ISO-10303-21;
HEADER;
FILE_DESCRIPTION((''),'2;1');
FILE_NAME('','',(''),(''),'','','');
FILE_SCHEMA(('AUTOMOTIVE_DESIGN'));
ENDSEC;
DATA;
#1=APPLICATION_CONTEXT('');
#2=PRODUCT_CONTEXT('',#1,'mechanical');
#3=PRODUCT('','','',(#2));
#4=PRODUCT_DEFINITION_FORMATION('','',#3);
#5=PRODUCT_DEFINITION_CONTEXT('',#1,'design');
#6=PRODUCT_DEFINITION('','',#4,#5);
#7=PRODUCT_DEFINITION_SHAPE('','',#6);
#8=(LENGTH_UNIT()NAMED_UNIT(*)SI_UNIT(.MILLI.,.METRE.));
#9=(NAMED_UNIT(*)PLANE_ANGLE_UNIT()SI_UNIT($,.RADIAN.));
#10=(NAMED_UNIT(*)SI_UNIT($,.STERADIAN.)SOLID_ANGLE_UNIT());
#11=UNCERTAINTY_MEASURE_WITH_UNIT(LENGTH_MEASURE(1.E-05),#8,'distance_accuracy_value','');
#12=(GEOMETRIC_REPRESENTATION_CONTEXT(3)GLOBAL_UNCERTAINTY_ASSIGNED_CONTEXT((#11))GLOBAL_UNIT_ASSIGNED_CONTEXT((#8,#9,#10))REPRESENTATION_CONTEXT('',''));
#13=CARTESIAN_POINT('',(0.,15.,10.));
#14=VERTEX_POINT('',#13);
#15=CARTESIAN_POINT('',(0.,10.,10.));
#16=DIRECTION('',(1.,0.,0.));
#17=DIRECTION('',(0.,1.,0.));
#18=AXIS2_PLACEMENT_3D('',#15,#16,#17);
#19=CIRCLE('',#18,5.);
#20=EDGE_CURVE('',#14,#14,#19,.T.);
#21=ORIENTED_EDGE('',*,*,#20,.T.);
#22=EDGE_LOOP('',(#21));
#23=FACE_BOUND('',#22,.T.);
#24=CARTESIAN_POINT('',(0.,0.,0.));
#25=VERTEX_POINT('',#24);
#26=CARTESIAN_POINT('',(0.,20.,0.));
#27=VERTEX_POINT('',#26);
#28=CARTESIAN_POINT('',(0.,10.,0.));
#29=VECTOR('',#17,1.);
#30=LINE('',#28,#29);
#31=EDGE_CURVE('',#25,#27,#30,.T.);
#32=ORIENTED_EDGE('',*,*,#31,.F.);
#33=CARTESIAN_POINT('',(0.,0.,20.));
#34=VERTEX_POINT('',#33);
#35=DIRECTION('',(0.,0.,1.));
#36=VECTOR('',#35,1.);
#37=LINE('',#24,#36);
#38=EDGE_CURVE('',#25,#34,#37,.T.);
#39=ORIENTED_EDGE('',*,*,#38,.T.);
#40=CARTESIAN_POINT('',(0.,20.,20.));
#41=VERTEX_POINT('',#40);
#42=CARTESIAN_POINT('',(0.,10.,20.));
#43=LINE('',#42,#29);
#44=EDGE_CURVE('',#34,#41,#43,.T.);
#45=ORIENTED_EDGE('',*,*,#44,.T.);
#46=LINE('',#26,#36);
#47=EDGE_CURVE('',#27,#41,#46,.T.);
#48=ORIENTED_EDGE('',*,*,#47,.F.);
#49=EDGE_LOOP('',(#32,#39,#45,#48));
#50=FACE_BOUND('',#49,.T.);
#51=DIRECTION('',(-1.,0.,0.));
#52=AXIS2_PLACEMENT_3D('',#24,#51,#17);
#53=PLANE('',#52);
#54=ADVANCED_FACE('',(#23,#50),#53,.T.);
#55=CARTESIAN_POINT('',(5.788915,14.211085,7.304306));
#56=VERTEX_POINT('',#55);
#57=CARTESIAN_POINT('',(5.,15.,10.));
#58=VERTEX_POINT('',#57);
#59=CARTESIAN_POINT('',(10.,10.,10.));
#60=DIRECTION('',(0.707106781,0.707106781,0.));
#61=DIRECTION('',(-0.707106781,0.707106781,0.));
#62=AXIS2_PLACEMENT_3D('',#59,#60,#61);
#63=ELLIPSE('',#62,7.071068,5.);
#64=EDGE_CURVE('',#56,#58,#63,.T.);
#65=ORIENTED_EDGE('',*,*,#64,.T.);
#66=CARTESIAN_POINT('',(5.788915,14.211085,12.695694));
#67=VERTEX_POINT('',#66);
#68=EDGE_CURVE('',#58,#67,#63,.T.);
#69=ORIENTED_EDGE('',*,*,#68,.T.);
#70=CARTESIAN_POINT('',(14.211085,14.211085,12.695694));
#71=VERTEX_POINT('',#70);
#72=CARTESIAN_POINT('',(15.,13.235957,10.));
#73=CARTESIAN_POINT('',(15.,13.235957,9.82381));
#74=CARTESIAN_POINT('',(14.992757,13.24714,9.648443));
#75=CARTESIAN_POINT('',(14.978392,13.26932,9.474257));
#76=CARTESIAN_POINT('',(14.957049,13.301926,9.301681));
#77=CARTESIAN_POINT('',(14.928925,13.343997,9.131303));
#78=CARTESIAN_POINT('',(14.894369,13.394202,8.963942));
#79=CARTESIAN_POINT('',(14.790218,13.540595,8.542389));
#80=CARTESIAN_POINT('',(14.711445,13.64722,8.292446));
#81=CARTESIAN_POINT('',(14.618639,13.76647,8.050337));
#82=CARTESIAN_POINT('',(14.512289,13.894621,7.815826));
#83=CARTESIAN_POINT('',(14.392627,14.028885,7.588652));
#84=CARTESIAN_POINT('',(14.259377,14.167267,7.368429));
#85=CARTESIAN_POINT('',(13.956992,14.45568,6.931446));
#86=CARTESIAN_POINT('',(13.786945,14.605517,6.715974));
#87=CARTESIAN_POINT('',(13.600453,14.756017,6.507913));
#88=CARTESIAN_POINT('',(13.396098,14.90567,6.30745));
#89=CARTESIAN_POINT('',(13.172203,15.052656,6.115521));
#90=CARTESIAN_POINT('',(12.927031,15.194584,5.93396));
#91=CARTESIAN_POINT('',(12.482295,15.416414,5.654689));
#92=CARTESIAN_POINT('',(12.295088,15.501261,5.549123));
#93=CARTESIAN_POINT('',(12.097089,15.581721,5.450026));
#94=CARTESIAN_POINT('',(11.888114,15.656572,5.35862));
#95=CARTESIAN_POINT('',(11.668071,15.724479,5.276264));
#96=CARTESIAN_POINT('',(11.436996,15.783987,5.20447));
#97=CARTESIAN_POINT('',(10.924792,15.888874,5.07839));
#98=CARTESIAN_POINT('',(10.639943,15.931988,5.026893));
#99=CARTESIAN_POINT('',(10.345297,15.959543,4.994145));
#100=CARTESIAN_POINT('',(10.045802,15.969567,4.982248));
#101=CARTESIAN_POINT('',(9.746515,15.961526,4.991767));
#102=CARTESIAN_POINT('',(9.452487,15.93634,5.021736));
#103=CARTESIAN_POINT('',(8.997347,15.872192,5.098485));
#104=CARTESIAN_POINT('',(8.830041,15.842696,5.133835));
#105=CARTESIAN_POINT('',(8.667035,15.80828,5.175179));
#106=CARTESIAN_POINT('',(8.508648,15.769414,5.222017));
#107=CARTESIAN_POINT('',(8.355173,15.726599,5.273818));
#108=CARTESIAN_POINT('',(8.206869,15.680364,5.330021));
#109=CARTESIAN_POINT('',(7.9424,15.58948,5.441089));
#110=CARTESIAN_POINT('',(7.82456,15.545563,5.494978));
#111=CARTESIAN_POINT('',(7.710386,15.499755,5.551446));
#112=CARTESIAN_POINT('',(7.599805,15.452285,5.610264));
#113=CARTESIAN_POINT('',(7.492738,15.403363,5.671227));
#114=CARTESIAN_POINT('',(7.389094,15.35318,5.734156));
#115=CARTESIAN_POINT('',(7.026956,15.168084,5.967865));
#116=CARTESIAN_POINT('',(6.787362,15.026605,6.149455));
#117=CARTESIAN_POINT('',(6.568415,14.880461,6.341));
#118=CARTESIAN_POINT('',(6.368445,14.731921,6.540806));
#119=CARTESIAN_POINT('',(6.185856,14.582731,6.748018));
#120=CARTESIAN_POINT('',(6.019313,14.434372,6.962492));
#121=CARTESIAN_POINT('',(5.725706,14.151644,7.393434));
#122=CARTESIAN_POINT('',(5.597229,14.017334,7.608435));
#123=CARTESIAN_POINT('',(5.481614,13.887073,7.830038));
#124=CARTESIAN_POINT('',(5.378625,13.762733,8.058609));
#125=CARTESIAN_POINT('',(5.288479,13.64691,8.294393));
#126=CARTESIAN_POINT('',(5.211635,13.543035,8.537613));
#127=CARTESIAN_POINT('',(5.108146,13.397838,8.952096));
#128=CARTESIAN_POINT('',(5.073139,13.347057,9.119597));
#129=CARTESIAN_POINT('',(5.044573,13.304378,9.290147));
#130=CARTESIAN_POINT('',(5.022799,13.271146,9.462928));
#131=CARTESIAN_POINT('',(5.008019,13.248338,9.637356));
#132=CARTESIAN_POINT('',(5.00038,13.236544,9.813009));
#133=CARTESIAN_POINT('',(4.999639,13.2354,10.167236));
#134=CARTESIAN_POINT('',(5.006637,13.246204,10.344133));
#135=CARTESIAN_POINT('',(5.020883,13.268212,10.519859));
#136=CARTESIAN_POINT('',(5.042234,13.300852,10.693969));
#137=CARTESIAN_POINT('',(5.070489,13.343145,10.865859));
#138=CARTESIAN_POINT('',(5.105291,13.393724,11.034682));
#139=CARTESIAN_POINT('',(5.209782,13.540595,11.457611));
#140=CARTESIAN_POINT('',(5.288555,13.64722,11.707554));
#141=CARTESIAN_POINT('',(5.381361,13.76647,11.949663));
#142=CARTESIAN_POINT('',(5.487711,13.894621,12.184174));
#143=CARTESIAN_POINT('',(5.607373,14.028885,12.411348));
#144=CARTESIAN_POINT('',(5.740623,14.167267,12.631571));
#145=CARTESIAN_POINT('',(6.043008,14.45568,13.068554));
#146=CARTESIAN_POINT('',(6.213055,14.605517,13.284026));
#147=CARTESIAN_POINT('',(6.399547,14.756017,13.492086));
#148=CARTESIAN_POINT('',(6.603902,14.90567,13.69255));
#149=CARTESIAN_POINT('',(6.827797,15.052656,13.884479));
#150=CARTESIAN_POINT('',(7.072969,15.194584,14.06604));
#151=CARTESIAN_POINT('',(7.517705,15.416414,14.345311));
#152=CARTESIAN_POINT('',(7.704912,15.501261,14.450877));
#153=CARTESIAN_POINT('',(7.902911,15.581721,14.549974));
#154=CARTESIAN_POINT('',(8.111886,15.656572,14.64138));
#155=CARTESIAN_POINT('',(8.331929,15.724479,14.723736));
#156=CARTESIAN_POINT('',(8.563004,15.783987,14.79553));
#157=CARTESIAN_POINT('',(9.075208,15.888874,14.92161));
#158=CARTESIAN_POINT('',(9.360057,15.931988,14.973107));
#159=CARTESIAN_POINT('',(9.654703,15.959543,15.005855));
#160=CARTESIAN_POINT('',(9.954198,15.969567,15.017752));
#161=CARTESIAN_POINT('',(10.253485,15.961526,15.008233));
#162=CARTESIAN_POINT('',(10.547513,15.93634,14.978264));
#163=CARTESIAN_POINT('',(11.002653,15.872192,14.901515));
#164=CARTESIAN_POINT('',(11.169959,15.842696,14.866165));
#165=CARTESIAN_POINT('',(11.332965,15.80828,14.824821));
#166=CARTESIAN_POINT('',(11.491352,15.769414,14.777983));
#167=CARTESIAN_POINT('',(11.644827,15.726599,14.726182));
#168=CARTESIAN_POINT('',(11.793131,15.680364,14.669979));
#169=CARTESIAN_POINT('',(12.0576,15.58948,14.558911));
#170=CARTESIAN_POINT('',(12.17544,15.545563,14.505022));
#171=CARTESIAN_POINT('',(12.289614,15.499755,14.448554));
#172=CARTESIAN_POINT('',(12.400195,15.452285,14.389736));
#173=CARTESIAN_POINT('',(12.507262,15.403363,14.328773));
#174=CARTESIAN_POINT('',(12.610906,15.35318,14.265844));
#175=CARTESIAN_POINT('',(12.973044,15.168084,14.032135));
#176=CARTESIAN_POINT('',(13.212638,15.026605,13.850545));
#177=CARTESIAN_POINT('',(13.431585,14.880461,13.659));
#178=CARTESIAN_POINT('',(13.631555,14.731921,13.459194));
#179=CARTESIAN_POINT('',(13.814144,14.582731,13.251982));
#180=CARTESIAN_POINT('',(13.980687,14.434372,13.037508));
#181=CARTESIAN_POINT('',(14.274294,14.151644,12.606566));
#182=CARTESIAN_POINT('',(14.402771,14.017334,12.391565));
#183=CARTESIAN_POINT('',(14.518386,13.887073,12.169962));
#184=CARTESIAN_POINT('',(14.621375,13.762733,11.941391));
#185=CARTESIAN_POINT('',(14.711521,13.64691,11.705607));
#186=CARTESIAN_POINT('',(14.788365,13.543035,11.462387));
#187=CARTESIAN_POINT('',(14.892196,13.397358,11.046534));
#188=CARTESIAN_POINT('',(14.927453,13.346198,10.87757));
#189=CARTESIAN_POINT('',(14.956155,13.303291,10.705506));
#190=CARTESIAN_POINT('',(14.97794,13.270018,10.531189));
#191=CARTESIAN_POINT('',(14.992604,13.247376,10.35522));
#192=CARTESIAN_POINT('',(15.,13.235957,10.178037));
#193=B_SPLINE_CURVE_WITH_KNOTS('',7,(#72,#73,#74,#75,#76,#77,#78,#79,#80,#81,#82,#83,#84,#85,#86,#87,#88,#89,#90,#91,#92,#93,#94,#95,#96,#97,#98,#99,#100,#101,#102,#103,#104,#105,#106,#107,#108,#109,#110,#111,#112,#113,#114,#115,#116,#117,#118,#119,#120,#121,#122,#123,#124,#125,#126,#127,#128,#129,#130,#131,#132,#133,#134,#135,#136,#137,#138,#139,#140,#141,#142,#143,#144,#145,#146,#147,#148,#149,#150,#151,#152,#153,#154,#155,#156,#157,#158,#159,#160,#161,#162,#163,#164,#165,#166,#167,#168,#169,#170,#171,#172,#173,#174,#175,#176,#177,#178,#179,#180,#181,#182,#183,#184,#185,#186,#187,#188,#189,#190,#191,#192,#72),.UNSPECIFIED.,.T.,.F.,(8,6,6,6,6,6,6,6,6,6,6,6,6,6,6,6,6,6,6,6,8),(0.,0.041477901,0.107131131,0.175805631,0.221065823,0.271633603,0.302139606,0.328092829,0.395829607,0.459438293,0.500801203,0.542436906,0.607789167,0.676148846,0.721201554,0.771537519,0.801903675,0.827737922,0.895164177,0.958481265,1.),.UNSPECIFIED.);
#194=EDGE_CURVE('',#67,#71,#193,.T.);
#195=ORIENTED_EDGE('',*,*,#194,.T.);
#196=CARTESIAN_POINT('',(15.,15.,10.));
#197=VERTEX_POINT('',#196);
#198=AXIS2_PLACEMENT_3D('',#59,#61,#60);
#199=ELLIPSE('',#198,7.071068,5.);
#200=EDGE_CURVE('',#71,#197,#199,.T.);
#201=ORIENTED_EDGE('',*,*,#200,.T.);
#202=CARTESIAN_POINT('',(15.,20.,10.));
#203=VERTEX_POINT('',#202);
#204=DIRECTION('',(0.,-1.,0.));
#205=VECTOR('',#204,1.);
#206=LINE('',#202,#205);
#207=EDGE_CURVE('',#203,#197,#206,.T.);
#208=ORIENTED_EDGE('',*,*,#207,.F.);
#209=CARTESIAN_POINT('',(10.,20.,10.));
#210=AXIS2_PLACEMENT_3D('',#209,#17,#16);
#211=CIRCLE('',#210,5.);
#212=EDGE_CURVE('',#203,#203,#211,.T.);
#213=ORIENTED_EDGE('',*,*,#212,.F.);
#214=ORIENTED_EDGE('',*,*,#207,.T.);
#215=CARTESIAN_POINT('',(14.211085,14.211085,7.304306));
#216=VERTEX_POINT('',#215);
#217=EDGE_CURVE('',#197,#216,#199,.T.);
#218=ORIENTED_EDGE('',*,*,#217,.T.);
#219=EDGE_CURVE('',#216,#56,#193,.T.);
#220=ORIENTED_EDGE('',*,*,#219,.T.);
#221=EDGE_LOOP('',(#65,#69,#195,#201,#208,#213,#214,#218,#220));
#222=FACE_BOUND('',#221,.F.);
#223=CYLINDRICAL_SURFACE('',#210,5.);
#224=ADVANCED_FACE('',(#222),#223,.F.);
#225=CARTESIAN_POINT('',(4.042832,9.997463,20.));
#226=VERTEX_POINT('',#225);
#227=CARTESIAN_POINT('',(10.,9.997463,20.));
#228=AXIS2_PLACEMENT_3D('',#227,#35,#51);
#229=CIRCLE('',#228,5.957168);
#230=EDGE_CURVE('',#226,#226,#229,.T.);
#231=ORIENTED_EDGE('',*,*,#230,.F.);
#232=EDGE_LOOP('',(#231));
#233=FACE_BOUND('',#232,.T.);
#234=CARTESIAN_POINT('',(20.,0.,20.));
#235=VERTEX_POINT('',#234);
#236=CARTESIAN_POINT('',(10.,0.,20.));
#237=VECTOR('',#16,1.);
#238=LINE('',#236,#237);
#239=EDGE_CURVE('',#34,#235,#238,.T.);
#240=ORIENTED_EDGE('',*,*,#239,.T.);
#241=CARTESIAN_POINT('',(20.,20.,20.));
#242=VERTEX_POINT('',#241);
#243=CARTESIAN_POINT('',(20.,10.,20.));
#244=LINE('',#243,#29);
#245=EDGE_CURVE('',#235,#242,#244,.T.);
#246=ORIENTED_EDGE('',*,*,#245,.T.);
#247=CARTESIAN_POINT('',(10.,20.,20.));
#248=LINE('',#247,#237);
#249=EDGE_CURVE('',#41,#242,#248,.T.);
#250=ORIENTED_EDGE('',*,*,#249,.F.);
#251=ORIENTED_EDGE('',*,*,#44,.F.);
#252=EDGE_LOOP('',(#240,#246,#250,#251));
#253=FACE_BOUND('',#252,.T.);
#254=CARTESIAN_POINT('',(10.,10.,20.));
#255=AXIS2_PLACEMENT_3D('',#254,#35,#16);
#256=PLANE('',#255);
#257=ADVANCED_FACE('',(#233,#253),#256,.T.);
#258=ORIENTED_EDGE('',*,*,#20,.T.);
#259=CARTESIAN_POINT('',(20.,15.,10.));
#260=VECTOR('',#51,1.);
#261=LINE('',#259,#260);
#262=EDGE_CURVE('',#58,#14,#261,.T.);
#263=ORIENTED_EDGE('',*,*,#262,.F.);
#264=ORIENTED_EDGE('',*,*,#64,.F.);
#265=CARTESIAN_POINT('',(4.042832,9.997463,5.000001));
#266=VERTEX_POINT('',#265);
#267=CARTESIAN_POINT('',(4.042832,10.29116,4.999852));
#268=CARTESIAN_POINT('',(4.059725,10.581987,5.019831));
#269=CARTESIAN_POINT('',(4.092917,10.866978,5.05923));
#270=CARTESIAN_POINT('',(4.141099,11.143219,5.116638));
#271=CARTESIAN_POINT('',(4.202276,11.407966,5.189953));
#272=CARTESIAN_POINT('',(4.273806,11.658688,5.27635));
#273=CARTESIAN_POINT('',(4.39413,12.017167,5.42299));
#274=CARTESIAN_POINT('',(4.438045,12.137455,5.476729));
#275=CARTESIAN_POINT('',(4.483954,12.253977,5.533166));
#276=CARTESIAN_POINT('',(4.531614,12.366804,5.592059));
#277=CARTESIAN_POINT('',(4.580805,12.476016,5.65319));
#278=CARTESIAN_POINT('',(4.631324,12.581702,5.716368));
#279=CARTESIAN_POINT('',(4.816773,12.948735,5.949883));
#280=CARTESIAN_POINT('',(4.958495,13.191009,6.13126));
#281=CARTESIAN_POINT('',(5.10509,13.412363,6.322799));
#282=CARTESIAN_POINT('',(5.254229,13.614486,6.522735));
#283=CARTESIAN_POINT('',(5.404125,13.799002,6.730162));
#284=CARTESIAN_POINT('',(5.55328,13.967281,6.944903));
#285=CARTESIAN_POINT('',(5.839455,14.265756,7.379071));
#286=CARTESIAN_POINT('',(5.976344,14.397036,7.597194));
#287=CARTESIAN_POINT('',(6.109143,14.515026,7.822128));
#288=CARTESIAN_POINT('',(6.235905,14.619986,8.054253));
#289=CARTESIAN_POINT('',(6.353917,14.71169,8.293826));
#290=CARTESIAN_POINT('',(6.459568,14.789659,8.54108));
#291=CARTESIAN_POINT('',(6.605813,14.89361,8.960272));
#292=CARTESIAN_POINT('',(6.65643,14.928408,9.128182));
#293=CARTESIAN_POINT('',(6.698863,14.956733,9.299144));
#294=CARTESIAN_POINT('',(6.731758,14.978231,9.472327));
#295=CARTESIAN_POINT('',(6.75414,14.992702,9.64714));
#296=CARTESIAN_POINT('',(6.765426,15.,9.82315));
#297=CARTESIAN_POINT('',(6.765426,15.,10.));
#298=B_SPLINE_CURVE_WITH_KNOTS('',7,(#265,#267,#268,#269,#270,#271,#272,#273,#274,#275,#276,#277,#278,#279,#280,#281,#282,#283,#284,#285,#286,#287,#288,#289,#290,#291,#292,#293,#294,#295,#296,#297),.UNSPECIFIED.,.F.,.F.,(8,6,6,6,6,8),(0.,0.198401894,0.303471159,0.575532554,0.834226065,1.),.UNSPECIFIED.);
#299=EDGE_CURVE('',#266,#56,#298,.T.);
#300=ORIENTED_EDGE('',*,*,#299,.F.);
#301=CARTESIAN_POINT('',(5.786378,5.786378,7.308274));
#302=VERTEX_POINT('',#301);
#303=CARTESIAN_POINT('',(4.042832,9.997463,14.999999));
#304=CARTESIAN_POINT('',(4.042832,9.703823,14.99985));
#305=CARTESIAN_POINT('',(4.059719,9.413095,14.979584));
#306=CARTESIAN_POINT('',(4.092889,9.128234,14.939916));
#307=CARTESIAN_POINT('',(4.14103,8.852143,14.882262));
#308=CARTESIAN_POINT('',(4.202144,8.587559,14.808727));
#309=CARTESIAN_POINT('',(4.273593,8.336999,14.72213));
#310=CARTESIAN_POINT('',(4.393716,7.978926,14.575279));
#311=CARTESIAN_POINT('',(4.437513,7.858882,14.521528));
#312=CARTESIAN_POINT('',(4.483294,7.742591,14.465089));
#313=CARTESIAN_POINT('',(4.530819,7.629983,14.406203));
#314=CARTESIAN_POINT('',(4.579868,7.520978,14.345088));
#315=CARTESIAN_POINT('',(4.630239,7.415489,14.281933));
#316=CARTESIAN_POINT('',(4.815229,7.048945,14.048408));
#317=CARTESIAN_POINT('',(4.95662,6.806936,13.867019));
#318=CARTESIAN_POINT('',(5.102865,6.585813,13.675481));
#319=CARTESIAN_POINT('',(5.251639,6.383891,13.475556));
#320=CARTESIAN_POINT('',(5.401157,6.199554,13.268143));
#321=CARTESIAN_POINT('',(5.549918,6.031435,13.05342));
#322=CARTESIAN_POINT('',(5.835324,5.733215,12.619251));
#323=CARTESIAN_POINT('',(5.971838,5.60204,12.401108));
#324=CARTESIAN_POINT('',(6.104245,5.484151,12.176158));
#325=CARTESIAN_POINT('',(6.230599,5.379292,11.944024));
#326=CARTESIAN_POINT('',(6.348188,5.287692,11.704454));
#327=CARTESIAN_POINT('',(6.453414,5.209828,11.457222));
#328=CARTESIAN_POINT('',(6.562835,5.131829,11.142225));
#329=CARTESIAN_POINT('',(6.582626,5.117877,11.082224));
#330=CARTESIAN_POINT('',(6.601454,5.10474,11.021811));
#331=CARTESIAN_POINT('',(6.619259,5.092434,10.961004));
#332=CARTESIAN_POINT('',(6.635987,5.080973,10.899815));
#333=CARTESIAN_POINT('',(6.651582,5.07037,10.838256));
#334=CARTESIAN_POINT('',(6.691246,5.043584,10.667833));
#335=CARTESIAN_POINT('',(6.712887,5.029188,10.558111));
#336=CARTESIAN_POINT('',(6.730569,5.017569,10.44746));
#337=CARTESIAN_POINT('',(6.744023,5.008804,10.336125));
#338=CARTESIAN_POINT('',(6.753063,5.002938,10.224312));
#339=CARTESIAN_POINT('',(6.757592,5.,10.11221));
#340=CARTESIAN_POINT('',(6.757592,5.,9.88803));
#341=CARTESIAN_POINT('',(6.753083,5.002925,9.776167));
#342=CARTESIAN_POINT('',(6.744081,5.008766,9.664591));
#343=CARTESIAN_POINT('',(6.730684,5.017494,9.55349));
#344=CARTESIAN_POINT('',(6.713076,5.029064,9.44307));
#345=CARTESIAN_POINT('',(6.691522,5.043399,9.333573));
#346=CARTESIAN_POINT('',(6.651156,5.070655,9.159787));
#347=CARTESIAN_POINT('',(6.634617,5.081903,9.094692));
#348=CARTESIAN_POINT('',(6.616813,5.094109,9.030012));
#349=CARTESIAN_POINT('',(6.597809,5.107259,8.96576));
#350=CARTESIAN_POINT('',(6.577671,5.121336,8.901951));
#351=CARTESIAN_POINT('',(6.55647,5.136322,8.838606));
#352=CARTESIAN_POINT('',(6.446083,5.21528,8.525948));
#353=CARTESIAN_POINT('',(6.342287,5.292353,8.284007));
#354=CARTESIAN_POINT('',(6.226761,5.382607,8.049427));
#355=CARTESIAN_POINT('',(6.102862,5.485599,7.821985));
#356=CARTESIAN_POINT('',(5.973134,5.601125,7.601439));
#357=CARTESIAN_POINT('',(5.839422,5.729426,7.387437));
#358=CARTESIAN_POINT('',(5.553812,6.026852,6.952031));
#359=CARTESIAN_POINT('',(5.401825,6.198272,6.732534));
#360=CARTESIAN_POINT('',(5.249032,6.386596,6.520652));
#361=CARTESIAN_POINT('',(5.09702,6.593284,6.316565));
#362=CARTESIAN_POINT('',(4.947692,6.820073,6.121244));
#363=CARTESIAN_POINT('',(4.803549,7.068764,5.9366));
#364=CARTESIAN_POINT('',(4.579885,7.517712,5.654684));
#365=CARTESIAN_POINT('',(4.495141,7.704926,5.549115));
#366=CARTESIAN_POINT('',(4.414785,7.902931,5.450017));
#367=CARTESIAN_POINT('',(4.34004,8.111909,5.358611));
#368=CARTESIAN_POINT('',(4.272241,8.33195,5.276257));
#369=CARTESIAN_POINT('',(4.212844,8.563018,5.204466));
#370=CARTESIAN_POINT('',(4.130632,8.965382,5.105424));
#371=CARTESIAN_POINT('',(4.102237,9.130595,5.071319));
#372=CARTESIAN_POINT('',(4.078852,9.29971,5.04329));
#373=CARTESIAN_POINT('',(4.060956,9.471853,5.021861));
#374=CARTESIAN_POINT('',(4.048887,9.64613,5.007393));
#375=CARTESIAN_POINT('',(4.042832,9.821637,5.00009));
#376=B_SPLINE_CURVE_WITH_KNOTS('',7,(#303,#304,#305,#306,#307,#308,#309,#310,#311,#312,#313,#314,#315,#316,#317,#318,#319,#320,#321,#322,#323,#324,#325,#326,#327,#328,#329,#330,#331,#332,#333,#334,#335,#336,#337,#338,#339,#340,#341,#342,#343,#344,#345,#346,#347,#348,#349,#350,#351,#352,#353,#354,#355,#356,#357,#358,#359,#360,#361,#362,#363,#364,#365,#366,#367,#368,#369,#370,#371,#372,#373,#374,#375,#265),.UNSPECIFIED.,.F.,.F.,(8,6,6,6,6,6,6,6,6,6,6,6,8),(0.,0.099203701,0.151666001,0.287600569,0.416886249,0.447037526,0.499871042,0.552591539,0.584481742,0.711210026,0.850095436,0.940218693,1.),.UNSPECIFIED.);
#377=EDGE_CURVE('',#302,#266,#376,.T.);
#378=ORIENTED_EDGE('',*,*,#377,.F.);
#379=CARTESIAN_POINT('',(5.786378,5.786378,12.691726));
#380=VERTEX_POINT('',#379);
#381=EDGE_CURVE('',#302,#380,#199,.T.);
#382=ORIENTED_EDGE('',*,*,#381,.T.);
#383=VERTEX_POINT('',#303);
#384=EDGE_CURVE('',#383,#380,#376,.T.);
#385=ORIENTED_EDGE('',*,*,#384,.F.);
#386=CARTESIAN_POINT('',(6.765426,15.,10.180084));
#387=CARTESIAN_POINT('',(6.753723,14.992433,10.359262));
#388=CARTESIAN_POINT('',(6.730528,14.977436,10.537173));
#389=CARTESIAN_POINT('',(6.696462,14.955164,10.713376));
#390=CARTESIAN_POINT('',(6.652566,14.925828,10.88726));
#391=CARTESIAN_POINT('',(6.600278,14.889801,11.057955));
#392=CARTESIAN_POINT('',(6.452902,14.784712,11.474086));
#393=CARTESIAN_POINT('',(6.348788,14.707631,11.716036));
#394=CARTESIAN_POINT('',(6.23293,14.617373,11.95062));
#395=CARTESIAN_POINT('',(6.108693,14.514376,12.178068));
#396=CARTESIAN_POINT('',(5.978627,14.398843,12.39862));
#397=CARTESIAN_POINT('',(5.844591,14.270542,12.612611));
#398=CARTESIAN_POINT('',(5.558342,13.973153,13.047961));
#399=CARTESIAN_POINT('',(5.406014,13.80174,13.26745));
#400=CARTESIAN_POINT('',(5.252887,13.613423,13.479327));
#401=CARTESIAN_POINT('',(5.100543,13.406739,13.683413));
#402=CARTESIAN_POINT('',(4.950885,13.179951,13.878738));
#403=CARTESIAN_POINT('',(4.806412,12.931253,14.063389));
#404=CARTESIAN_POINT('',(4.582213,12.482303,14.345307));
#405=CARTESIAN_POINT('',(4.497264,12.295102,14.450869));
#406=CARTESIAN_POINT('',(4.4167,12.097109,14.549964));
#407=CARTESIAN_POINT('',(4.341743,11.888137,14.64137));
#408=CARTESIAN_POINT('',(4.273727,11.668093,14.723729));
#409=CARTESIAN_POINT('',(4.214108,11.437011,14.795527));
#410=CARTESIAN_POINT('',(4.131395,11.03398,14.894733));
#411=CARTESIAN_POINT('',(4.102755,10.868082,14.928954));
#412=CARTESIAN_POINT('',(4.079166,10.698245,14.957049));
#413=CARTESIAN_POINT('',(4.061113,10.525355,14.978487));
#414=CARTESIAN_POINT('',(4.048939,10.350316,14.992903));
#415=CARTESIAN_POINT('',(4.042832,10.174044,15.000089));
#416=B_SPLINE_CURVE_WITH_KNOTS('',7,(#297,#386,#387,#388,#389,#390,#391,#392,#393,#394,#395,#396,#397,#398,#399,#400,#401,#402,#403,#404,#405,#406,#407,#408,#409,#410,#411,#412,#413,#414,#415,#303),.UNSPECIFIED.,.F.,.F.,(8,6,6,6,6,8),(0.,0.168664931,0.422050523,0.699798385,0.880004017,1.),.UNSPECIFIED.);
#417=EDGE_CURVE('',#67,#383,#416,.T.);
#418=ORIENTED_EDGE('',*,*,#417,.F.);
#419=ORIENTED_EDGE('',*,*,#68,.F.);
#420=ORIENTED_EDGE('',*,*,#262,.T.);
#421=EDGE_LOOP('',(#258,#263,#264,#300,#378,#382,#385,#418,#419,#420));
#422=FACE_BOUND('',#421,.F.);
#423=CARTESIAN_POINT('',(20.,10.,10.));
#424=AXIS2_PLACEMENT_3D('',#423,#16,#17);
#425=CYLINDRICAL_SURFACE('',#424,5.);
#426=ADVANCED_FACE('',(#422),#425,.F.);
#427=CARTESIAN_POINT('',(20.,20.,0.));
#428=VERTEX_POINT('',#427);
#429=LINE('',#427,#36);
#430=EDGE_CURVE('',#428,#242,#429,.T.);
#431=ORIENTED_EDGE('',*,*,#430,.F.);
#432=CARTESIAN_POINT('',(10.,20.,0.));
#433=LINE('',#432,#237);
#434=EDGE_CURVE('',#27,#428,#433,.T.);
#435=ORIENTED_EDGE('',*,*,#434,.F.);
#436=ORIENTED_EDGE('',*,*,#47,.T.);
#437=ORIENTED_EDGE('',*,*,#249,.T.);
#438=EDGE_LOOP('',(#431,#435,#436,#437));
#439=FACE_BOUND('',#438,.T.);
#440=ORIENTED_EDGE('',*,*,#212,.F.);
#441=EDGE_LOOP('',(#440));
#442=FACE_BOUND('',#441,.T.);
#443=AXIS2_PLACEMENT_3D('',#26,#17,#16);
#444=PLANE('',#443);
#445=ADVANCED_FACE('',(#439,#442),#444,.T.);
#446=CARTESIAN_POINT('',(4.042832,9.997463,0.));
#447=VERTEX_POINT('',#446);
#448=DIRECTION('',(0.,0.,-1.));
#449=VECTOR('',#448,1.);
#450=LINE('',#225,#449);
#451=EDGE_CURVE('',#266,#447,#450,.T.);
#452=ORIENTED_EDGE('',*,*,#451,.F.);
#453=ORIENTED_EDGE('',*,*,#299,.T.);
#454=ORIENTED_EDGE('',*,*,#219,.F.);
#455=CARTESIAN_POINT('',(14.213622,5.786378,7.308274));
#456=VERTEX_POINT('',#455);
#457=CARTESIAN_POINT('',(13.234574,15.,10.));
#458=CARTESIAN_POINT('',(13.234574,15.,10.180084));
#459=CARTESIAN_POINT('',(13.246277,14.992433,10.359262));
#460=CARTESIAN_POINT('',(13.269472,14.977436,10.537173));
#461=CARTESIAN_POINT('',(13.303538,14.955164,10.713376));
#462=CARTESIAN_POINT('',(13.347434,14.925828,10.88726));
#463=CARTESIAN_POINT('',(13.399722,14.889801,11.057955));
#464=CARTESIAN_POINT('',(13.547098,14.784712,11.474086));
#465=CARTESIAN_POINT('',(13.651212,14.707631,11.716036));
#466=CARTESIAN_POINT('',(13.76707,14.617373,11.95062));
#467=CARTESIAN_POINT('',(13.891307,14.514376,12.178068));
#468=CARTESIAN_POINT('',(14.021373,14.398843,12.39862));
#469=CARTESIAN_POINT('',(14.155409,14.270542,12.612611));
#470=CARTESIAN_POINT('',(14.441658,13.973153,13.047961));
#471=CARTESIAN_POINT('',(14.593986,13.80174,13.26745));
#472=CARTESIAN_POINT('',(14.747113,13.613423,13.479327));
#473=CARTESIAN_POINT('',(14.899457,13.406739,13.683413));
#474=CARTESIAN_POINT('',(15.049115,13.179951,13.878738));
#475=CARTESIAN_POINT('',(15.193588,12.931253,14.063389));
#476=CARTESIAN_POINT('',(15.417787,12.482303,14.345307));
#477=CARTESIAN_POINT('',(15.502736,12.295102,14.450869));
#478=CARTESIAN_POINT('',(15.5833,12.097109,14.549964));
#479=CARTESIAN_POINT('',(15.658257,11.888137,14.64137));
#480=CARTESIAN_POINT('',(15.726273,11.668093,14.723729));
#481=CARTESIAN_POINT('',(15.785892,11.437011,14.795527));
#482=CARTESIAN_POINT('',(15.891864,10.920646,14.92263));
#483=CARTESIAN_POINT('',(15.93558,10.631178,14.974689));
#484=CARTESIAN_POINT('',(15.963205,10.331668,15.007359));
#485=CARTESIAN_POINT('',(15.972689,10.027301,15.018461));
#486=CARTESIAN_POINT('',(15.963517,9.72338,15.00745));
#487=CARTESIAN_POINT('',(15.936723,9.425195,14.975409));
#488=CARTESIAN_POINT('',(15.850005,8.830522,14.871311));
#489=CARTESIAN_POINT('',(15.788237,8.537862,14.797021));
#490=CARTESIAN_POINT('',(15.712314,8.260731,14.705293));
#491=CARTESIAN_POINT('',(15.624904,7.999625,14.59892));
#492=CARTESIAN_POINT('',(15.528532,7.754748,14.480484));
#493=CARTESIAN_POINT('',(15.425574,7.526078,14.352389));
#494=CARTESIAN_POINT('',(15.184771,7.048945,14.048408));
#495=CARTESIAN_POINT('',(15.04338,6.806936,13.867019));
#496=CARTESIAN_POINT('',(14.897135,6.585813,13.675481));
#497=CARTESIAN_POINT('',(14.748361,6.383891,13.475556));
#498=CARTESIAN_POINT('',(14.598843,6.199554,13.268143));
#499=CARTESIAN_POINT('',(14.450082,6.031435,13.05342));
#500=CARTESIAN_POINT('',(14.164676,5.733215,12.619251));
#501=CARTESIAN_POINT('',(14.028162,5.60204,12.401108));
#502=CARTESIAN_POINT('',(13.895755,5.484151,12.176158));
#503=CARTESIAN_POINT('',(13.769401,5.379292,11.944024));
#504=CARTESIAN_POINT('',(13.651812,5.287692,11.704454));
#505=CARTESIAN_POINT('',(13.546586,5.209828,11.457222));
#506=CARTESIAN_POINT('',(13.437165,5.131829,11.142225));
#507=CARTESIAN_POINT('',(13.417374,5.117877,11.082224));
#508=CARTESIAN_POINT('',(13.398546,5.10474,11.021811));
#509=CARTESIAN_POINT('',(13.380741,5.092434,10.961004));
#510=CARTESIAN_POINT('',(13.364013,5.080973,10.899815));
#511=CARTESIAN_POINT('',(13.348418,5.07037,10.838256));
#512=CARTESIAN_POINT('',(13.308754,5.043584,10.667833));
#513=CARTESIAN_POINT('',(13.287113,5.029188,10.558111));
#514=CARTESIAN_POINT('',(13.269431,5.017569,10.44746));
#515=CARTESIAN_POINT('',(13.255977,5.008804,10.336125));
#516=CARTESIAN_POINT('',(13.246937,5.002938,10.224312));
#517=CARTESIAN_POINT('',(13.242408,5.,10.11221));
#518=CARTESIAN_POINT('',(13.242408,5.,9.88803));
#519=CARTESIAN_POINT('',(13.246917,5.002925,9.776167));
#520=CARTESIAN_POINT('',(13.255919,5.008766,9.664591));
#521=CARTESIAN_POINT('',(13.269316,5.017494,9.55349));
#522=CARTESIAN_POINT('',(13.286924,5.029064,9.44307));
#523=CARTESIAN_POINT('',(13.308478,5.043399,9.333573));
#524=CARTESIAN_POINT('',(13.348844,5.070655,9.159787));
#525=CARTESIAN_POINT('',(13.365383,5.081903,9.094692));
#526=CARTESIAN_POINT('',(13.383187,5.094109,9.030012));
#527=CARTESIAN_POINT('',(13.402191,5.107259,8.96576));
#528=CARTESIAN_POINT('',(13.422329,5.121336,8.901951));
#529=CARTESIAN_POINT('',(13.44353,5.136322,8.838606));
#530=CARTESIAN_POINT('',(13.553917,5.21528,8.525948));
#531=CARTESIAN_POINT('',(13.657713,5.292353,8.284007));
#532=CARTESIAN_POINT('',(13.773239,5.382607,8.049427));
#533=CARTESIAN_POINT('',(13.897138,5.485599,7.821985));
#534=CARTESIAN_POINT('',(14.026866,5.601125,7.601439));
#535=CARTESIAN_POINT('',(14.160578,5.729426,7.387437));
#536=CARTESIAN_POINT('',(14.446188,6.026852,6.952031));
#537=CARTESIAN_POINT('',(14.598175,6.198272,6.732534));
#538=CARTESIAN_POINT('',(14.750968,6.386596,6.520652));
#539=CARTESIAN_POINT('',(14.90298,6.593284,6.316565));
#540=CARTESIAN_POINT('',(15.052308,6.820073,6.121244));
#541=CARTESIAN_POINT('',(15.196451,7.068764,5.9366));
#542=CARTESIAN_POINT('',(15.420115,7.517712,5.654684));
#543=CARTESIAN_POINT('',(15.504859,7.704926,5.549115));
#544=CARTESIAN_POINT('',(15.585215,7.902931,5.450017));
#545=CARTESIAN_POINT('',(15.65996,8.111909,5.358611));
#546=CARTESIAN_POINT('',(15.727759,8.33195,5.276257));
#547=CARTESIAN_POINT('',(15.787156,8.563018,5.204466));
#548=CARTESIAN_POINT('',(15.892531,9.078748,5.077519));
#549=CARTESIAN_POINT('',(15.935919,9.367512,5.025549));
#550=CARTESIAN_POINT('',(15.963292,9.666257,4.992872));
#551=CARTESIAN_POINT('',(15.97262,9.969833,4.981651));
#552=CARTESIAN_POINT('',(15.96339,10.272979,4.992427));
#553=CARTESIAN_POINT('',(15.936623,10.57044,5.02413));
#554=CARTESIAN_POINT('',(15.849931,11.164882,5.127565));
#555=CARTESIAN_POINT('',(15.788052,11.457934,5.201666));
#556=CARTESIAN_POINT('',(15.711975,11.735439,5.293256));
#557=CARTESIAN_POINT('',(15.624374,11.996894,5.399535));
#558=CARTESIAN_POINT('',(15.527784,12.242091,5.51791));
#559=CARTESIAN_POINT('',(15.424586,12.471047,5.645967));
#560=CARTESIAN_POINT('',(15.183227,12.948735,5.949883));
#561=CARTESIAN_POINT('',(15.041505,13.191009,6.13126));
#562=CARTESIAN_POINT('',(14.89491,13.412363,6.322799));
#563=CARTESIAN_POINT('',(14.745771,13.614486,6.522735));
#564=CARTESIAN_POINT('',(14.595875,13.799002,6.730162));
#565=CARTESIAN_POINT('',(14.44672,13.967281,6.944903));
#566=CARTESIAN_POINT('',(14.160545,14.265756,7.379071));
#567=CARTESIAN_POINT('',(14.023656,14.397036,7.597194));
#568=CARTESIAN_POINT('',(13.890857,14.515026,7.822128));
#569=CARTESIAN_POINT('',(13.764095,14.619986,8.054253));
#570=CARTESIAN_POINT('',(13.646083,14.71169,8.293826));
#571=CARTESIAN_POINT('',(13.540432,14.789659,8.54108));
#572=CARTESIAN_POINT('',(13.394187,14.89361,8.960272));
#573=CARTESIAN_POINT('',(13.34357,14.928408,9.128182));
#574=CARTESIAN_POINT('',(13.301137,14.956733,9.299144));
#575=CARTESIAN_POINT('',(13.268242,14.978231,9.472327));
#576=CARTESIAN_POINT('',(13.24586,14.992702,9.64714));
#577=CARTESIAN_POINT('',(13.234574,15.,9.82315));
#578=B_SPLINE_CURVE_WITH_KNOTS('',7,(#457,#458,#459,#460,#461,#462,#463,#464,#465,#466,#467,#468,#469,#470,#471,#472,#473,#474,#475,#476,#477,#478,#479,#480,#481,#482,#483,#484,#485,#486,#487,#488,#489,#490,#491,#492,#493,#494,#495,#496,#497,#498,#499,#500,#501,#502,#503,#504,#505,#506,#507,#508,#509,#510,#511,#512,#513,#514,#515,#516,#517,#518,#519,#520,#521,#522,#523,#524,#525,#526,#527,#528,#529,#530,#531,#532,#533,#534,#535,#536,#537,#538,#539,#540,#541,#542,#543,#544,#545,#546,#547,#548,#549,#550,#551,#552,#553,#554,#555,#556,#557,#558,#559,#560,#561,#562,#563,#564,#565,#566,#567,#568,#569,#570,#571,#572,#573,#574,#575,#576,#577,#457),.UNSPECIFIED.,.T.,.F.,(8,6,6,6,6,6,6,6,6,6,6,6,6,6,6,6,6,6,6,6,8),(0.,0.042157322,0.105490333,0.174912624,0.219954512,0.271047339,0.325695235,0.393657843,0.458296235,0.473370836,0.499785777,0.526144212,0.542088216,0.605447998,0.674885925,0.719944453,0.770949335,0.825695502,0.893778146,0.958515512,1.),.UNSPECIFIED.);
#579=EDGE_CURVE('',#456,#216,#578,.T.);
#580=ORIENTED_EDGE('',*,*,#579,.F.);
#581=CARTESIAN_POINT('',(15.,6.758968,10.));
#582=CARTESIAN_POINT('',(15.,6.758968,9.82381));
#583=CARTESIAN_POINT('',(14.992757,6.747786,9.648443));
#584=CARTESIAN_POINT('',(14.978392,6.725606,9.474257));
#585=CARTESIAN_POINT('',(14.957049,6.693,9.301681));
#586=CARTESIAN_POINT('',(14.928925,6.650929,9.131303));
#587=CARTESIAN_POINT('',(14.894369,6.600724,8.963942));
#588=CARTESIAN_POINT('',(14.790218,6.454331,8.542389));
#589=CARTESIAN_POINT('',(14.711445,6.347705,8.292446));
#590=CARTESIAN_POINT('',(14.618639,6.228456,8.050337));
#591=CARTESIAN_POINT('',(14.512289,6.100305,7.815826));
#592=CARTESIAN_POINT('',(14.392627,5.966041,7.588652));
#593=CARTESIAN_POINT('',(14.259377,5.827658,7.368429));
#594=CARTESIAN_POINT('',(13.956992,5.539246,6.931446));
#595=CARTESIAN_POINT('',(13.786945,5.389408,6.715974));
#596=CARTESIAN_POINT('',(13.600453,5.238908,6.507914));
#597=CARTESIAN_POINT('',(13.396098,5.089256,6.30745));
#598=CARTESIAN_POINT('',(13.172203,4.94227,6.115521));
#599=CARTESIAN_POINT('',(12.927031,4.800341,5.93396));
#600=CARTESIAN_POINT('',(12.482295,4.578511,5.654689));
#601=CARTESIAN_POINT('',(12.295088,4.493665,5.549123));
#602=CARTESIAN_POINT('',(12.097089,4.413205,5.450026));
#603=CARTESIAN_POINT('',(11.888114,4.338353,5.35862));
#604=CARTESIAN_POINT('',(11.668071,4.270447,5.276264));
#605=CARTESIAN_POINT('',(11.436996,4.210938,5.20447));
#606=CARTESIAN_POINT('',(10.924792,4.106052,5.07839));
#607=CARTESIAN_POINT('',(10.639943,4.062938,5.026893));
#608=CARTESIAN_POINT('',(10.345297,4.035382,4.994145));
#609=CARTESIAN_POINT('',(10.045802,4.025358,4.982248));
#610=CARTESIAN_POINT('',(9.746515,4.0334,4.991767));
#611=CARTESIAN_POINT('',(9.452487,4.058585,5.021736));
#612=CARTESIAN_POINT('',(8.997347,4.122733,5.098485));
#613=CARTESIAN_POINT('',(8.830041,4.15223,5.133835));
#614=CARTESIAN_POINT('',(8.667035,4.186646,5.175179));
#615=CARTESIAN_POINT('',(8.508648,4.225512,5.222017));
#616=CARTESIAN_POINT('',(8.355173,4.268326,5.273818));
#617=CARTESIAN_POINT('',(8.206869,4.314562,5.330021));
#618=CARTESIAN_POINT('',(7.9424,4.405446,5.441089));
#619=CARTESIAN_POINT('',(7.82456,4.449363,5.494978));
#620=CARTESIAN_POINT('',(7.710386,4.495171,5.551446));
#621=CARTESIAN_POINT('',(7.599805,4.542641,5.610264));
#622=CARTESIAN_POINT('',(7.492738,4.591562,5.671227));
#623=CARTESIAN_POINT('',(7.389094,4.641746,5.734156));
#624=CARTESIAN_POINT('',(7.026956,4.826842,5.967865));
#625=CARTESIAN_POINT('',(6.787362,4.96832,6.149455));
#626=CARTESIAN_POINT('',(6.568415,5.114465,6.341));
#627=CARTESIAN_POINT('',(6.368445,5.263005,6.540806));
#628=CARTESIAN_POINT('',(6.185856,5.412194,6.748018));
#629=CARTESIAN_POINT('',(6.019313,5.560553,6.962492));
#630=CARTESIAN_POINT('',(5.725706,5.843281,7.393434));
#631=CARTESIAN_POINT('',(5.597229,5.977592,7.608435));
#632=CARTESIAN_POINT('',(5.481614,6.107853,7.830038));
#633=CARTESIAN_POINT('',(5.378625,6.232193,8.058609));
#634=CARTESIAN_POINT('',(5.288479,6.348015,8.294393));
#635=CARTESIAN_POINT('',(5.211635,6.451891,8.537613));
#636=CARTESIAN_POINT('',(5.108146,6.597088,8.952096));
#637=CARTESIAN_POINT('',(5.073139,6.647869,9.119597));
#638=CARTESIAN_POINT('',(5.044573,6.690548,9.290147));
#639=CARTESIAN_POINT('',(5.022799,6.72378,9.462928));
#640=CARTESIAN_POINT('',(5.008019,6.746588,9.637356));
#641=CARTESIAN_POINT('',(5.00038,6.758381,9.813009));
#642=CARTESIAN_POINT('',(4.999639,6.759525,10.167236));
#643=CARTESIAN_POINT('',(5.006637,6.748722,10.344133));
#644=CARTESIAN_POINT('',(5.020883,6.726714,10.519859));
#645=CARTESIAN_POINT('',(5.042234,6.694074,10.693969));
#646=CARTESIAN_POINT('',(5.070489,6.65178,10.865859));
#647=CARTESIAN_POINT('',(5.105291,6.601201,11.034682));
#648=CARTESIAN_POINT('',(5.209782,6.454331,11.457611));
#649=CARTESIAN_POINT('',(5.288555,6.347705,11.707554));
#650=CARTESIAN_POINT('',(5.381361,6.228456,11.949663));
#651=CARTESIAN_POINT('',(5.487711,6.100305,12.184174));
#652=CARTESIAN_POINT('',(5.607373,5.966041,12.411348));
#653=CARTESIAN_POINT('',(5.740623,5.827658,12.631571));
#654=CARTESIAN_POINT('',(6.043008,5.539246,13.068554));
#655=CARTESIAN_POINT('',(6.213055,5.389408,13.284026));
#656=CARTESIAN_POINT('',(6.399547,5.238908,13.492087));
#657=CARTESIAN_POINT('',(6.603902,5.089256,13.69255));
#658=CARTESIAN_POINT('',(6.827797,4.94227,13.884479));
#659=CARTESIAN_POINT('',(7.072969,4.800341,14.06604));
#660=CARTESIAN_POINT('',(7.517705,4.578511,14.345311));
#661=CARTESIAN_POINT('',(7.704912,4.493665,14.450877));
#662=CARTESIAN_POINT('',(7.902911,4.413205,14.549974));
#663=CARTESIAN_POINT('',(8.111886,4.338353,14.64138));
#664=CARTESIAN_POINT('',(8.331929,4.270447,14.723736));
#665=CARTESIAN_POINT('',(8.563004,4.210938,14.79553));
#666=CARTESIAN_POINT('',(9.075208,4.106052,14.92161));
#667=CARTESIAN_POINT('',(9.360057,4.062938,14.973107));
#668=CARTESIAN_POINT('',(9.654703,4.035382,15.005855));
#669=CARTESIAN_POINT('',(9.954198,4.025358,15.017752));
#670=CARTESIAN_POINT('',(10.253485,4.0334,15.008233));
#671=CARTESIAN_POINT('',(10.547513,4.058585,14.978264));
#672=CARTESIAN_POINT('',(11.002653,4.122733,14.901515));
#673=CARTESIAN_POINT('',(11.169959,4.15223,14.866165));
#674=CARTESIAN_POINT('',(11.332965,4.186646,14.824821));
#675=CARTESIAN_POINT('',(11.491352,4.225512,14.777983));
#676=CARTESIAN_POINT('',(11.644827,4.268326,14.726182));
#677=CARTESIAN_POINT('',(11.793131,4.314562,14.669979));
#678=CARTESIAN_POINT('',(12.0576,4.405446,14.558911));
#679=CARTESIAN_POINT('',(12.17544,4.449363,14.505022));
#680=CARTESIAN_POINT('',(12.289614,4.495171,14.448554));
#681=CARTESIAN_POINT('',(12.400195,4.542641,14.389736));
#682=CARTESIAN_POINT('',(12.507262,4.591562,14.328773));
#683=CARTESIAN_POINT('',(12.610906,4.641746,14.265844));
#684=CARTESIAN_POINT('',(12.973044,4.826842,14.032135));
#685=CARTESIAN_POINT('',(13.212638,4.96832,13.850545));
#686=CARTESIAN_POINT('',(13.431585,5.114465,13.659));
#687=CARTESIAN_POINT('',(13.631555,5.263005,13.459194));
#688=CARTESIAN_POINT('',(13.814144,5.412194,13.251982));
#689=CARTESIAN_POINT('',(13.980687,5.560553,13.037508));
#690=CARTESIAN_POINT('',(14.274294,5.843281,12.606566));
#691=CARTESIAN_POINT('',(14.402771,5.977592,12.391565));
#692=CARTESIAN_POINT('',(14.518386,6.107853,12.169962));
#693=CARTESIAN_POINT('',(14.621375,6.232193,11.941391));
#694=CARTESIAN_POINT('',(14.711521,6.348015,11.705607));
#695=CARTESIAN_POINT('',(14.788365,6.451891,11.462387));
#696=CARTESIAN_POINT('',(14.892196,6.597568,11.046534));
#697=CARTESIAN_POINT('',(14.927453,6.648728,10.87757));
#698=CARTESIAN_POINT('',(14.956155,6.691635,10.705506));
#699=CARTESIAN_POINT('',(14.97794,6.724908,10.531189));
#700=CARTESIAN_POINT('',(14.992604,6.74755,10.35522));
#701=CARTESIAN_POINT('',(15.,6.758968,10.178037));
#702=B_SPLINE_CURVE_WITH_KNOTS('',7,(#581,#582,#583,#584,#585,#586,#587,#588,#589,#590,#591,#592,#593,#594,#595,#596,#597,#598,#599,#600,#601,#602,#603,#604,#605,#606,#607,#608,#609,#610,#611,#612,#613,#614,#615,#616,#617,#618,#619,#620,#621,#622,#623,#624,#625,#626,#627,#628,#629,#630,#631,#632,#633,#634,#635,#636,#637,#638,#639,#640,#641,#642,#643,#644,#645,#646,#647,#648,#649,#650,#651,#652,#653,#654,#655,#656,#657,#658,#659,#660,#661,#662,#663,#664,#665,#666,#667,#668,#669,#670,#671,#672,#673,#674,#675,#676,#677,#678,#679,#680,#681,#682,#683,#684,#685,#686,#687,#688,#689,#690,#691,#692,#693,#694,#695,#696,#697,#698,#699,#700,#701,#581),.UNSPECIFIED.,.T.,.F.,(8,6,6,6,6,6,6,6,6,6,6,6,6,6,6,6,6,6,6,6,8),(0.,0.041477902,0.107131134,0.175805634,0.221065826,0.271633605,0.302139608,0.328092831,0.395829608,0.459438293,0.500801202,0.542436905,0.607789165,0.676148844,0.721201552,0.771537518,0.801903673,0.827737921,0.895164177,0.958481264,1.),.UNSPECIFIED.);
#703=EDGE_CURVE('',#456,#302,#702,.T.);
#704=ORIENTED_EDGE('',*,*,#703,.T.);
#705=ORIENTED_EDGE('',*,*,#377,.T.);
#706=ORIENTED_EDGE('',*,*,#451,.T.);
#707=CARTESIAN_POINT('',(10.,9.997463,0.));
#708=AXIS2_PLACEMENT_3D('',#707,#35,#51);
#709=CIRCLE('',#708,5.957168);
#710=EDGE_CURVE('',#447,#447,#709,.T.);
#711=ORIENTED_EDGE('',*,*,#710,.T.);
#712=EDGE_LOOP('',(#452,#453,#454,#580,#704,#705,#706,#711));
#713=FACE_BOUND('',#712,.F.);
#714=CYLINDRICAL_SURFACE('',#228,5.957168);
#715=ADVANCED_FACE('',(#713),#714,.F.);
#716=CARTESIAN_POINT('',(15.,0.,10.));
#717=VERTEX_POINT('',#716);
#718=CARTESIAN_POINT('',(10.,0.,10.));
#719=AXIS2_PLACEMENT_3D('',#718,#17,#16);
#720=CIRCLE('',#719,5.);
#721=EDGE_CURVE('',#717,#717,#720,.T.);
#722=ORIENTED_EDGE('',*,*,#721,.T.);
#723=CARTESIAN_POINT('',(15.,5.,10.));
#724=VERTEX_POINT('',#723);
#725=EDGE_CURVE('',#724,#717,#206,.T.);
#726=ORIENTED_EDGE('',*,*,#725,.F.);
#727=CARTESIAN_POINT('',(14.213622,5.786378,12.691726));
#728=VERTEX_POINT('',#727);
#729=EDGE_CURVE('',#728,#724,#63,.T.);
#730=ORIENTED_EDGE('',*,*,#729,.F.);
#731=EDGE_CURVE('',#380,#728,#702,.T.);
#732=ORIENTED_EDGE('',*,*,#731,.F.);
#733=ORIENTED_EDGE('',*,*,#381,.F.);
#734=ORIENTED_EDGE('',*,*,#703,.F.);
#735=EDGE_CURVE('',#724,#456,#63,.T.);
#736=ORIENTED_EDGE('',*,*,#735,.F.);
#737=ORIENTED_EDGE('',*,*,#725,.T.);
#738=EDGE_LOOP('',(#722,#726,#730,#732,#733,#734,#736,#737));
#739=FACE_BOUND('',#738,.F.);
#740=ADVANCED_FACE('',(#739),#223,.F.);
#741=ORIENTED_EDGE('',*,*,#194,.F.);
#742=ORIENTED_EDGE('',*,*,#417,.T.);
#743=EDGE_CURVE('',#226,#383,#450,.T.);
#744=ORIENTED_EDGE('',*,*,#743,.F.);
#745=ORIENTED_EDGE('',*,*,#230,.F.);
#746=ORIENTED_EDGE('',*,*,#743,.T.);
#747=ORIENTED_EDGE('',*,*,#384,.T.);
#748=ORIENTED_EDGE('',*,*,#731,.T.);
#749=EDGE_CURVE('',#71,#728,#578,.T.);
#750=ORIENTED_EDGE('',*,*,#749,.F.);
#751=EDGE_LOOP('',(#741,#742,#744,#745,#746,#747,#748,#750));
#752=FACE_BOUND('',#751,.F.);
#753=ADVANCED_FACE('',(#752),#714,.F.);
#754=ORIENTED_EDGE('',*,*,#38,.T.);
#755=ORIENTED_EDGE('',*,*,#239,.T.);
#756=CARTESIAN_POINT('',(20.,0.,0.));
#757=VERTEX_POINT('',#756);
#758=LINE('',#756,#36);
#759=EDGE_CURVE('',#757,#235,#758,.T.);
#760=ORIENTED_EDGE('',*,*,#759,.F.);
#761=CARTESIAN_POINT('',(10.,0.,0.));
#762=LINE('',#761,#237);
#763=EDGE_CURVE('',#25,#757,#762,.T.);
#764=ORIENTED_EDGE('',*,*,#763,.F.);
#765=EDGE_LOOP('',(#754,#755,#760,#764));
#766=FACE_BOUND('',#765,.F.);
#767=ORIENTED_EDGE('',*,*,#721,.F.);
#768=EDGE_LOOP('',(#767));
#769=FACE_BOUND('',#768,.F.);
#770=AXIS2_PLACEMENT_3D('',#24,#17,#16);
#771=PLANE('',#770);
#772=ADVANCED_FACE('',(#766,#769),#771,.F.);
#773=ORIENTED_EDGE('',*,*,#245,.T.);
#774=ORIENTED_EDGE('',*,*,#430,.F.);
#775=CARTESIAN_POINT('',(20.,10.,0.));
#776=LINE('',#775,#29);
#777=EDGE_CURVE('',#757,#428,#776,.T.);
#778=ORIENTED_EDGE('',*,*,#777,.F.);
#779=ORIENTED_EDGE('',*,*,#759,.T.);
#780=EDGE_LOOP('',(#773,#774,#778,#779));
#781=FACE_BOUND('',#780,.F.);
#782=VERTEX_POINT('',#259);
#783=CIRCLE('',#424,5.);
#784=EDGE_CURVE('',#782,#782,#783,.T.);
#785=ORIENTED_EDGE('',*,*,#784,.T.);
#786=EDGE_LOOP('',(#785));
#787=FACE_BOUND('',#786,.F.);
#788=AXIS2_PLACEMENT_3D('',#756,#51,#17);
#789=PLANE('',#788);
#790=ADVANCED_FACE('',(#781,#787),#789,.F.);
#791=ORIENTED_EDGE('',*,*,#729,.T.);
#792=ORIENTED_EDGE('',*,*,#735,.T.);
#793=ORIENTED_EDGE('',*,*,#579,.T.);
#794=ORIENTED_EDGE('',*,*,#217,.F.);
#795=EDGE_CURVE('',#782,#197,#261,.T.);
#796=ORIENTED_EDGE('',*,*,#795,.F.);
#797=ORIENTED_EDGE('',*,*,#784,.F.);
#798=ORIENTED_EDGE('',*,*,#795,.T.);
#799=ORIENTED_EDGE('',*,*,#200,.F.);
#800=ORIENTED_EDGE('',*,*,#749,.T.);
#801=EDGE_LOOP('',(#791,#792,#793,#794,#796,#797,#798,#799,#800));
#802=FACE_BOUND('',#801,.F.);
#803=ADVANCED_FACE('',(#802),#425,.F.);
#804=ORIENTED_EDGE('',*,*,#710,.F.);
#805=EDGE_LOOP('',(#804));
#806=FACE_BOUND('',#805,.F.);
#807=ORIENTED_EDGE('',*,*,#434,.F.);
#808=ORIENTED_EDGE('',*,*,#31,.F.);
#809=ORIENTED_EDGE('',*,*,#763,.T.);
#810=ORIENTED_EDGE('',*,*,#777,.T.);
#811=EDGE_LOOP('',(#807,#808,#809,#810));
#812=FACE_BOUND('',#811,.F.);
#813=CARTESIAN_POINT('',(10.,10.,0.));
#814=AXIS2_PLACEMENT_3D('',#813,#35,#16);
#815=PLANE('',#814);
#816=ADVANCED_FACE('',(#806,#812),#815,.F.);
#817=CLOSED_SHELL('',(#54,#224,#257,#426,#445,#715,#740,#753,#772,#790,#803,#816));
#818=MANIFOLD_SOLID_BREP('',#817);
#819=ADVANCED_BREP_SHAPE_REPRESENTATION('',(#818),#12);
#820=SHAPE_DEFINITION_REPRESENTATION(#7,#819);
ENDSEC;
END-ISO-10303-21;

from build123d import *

# Parameters (mm, degrees)
F0_W     = 20
F0_H     = 20
F1_DEPTH = 20
F3_DEPTH = 20
F5_DEPTH = 20
F6_R     = 5
F7_DEPTH = 20


with BuildPart() as f1:
    # F0 (on Top) → F1 (new body)
    with BuildSketch(Plane.XY):
        with Locations((10, 10)):
            Rectangle(F0_W, F0_H)
    extrude(amount=F1_DEPTH)

    # F2 (on face) → F3 (cut)
    with BuildSketch(Plane.XY.offset(20)):
        with BuildLine():
            Line((4.0428322988, 9.9974628538), (15.9571677012, 9.9974628538))
            ThreePointArc((15.9571677012, 9.9974628538), (10, 15.954630555), (4.0428322988, 9.9974628538))
        make_face()
        with BuildLine():
            ThreePointArc((4.0428322988, 9.9974628538), (10, 4.0402951526), (15.9571677012, 9.9974628538))
            Line((15.9571677012, 9.9974628538), (4.0428322988, 9.9974628538))
        make_face()
    extrude(amount=-F3_DEPTH, mode=Mode.SUBTRACT)

    # F4 (on face) → F5 (cut)
    with BuildSketch(Plane(origin=(0, 20, 0), x_dir=(-1, 0, 0), z_dir=(0, 1, 0))):
        with BuildLine():
            Line((-15, 10), (-5, 10))
            ThreePointArc((-5, 10), (-10, 15), (-15, 10))
        make_face()
        with BuildLine():
            ThreePointArc((-15, 10), (-10, 5), (-5, 10))
            Line((-5, 10), (-15, 10))
        make_face()
    extrude(amount=-F5_DEPTH, mode=Mode.SUBTRACT)

    # F6 (on face) → F7 (cut)
    with BuildSketch(Plane.YZ.offset(20)):
        with Locations((10, 10)):
            Circle(F6_R)
    extrude(amount=-F7_DEPTH, mode=Mode.SUBTRACT)


solid = f1.part
